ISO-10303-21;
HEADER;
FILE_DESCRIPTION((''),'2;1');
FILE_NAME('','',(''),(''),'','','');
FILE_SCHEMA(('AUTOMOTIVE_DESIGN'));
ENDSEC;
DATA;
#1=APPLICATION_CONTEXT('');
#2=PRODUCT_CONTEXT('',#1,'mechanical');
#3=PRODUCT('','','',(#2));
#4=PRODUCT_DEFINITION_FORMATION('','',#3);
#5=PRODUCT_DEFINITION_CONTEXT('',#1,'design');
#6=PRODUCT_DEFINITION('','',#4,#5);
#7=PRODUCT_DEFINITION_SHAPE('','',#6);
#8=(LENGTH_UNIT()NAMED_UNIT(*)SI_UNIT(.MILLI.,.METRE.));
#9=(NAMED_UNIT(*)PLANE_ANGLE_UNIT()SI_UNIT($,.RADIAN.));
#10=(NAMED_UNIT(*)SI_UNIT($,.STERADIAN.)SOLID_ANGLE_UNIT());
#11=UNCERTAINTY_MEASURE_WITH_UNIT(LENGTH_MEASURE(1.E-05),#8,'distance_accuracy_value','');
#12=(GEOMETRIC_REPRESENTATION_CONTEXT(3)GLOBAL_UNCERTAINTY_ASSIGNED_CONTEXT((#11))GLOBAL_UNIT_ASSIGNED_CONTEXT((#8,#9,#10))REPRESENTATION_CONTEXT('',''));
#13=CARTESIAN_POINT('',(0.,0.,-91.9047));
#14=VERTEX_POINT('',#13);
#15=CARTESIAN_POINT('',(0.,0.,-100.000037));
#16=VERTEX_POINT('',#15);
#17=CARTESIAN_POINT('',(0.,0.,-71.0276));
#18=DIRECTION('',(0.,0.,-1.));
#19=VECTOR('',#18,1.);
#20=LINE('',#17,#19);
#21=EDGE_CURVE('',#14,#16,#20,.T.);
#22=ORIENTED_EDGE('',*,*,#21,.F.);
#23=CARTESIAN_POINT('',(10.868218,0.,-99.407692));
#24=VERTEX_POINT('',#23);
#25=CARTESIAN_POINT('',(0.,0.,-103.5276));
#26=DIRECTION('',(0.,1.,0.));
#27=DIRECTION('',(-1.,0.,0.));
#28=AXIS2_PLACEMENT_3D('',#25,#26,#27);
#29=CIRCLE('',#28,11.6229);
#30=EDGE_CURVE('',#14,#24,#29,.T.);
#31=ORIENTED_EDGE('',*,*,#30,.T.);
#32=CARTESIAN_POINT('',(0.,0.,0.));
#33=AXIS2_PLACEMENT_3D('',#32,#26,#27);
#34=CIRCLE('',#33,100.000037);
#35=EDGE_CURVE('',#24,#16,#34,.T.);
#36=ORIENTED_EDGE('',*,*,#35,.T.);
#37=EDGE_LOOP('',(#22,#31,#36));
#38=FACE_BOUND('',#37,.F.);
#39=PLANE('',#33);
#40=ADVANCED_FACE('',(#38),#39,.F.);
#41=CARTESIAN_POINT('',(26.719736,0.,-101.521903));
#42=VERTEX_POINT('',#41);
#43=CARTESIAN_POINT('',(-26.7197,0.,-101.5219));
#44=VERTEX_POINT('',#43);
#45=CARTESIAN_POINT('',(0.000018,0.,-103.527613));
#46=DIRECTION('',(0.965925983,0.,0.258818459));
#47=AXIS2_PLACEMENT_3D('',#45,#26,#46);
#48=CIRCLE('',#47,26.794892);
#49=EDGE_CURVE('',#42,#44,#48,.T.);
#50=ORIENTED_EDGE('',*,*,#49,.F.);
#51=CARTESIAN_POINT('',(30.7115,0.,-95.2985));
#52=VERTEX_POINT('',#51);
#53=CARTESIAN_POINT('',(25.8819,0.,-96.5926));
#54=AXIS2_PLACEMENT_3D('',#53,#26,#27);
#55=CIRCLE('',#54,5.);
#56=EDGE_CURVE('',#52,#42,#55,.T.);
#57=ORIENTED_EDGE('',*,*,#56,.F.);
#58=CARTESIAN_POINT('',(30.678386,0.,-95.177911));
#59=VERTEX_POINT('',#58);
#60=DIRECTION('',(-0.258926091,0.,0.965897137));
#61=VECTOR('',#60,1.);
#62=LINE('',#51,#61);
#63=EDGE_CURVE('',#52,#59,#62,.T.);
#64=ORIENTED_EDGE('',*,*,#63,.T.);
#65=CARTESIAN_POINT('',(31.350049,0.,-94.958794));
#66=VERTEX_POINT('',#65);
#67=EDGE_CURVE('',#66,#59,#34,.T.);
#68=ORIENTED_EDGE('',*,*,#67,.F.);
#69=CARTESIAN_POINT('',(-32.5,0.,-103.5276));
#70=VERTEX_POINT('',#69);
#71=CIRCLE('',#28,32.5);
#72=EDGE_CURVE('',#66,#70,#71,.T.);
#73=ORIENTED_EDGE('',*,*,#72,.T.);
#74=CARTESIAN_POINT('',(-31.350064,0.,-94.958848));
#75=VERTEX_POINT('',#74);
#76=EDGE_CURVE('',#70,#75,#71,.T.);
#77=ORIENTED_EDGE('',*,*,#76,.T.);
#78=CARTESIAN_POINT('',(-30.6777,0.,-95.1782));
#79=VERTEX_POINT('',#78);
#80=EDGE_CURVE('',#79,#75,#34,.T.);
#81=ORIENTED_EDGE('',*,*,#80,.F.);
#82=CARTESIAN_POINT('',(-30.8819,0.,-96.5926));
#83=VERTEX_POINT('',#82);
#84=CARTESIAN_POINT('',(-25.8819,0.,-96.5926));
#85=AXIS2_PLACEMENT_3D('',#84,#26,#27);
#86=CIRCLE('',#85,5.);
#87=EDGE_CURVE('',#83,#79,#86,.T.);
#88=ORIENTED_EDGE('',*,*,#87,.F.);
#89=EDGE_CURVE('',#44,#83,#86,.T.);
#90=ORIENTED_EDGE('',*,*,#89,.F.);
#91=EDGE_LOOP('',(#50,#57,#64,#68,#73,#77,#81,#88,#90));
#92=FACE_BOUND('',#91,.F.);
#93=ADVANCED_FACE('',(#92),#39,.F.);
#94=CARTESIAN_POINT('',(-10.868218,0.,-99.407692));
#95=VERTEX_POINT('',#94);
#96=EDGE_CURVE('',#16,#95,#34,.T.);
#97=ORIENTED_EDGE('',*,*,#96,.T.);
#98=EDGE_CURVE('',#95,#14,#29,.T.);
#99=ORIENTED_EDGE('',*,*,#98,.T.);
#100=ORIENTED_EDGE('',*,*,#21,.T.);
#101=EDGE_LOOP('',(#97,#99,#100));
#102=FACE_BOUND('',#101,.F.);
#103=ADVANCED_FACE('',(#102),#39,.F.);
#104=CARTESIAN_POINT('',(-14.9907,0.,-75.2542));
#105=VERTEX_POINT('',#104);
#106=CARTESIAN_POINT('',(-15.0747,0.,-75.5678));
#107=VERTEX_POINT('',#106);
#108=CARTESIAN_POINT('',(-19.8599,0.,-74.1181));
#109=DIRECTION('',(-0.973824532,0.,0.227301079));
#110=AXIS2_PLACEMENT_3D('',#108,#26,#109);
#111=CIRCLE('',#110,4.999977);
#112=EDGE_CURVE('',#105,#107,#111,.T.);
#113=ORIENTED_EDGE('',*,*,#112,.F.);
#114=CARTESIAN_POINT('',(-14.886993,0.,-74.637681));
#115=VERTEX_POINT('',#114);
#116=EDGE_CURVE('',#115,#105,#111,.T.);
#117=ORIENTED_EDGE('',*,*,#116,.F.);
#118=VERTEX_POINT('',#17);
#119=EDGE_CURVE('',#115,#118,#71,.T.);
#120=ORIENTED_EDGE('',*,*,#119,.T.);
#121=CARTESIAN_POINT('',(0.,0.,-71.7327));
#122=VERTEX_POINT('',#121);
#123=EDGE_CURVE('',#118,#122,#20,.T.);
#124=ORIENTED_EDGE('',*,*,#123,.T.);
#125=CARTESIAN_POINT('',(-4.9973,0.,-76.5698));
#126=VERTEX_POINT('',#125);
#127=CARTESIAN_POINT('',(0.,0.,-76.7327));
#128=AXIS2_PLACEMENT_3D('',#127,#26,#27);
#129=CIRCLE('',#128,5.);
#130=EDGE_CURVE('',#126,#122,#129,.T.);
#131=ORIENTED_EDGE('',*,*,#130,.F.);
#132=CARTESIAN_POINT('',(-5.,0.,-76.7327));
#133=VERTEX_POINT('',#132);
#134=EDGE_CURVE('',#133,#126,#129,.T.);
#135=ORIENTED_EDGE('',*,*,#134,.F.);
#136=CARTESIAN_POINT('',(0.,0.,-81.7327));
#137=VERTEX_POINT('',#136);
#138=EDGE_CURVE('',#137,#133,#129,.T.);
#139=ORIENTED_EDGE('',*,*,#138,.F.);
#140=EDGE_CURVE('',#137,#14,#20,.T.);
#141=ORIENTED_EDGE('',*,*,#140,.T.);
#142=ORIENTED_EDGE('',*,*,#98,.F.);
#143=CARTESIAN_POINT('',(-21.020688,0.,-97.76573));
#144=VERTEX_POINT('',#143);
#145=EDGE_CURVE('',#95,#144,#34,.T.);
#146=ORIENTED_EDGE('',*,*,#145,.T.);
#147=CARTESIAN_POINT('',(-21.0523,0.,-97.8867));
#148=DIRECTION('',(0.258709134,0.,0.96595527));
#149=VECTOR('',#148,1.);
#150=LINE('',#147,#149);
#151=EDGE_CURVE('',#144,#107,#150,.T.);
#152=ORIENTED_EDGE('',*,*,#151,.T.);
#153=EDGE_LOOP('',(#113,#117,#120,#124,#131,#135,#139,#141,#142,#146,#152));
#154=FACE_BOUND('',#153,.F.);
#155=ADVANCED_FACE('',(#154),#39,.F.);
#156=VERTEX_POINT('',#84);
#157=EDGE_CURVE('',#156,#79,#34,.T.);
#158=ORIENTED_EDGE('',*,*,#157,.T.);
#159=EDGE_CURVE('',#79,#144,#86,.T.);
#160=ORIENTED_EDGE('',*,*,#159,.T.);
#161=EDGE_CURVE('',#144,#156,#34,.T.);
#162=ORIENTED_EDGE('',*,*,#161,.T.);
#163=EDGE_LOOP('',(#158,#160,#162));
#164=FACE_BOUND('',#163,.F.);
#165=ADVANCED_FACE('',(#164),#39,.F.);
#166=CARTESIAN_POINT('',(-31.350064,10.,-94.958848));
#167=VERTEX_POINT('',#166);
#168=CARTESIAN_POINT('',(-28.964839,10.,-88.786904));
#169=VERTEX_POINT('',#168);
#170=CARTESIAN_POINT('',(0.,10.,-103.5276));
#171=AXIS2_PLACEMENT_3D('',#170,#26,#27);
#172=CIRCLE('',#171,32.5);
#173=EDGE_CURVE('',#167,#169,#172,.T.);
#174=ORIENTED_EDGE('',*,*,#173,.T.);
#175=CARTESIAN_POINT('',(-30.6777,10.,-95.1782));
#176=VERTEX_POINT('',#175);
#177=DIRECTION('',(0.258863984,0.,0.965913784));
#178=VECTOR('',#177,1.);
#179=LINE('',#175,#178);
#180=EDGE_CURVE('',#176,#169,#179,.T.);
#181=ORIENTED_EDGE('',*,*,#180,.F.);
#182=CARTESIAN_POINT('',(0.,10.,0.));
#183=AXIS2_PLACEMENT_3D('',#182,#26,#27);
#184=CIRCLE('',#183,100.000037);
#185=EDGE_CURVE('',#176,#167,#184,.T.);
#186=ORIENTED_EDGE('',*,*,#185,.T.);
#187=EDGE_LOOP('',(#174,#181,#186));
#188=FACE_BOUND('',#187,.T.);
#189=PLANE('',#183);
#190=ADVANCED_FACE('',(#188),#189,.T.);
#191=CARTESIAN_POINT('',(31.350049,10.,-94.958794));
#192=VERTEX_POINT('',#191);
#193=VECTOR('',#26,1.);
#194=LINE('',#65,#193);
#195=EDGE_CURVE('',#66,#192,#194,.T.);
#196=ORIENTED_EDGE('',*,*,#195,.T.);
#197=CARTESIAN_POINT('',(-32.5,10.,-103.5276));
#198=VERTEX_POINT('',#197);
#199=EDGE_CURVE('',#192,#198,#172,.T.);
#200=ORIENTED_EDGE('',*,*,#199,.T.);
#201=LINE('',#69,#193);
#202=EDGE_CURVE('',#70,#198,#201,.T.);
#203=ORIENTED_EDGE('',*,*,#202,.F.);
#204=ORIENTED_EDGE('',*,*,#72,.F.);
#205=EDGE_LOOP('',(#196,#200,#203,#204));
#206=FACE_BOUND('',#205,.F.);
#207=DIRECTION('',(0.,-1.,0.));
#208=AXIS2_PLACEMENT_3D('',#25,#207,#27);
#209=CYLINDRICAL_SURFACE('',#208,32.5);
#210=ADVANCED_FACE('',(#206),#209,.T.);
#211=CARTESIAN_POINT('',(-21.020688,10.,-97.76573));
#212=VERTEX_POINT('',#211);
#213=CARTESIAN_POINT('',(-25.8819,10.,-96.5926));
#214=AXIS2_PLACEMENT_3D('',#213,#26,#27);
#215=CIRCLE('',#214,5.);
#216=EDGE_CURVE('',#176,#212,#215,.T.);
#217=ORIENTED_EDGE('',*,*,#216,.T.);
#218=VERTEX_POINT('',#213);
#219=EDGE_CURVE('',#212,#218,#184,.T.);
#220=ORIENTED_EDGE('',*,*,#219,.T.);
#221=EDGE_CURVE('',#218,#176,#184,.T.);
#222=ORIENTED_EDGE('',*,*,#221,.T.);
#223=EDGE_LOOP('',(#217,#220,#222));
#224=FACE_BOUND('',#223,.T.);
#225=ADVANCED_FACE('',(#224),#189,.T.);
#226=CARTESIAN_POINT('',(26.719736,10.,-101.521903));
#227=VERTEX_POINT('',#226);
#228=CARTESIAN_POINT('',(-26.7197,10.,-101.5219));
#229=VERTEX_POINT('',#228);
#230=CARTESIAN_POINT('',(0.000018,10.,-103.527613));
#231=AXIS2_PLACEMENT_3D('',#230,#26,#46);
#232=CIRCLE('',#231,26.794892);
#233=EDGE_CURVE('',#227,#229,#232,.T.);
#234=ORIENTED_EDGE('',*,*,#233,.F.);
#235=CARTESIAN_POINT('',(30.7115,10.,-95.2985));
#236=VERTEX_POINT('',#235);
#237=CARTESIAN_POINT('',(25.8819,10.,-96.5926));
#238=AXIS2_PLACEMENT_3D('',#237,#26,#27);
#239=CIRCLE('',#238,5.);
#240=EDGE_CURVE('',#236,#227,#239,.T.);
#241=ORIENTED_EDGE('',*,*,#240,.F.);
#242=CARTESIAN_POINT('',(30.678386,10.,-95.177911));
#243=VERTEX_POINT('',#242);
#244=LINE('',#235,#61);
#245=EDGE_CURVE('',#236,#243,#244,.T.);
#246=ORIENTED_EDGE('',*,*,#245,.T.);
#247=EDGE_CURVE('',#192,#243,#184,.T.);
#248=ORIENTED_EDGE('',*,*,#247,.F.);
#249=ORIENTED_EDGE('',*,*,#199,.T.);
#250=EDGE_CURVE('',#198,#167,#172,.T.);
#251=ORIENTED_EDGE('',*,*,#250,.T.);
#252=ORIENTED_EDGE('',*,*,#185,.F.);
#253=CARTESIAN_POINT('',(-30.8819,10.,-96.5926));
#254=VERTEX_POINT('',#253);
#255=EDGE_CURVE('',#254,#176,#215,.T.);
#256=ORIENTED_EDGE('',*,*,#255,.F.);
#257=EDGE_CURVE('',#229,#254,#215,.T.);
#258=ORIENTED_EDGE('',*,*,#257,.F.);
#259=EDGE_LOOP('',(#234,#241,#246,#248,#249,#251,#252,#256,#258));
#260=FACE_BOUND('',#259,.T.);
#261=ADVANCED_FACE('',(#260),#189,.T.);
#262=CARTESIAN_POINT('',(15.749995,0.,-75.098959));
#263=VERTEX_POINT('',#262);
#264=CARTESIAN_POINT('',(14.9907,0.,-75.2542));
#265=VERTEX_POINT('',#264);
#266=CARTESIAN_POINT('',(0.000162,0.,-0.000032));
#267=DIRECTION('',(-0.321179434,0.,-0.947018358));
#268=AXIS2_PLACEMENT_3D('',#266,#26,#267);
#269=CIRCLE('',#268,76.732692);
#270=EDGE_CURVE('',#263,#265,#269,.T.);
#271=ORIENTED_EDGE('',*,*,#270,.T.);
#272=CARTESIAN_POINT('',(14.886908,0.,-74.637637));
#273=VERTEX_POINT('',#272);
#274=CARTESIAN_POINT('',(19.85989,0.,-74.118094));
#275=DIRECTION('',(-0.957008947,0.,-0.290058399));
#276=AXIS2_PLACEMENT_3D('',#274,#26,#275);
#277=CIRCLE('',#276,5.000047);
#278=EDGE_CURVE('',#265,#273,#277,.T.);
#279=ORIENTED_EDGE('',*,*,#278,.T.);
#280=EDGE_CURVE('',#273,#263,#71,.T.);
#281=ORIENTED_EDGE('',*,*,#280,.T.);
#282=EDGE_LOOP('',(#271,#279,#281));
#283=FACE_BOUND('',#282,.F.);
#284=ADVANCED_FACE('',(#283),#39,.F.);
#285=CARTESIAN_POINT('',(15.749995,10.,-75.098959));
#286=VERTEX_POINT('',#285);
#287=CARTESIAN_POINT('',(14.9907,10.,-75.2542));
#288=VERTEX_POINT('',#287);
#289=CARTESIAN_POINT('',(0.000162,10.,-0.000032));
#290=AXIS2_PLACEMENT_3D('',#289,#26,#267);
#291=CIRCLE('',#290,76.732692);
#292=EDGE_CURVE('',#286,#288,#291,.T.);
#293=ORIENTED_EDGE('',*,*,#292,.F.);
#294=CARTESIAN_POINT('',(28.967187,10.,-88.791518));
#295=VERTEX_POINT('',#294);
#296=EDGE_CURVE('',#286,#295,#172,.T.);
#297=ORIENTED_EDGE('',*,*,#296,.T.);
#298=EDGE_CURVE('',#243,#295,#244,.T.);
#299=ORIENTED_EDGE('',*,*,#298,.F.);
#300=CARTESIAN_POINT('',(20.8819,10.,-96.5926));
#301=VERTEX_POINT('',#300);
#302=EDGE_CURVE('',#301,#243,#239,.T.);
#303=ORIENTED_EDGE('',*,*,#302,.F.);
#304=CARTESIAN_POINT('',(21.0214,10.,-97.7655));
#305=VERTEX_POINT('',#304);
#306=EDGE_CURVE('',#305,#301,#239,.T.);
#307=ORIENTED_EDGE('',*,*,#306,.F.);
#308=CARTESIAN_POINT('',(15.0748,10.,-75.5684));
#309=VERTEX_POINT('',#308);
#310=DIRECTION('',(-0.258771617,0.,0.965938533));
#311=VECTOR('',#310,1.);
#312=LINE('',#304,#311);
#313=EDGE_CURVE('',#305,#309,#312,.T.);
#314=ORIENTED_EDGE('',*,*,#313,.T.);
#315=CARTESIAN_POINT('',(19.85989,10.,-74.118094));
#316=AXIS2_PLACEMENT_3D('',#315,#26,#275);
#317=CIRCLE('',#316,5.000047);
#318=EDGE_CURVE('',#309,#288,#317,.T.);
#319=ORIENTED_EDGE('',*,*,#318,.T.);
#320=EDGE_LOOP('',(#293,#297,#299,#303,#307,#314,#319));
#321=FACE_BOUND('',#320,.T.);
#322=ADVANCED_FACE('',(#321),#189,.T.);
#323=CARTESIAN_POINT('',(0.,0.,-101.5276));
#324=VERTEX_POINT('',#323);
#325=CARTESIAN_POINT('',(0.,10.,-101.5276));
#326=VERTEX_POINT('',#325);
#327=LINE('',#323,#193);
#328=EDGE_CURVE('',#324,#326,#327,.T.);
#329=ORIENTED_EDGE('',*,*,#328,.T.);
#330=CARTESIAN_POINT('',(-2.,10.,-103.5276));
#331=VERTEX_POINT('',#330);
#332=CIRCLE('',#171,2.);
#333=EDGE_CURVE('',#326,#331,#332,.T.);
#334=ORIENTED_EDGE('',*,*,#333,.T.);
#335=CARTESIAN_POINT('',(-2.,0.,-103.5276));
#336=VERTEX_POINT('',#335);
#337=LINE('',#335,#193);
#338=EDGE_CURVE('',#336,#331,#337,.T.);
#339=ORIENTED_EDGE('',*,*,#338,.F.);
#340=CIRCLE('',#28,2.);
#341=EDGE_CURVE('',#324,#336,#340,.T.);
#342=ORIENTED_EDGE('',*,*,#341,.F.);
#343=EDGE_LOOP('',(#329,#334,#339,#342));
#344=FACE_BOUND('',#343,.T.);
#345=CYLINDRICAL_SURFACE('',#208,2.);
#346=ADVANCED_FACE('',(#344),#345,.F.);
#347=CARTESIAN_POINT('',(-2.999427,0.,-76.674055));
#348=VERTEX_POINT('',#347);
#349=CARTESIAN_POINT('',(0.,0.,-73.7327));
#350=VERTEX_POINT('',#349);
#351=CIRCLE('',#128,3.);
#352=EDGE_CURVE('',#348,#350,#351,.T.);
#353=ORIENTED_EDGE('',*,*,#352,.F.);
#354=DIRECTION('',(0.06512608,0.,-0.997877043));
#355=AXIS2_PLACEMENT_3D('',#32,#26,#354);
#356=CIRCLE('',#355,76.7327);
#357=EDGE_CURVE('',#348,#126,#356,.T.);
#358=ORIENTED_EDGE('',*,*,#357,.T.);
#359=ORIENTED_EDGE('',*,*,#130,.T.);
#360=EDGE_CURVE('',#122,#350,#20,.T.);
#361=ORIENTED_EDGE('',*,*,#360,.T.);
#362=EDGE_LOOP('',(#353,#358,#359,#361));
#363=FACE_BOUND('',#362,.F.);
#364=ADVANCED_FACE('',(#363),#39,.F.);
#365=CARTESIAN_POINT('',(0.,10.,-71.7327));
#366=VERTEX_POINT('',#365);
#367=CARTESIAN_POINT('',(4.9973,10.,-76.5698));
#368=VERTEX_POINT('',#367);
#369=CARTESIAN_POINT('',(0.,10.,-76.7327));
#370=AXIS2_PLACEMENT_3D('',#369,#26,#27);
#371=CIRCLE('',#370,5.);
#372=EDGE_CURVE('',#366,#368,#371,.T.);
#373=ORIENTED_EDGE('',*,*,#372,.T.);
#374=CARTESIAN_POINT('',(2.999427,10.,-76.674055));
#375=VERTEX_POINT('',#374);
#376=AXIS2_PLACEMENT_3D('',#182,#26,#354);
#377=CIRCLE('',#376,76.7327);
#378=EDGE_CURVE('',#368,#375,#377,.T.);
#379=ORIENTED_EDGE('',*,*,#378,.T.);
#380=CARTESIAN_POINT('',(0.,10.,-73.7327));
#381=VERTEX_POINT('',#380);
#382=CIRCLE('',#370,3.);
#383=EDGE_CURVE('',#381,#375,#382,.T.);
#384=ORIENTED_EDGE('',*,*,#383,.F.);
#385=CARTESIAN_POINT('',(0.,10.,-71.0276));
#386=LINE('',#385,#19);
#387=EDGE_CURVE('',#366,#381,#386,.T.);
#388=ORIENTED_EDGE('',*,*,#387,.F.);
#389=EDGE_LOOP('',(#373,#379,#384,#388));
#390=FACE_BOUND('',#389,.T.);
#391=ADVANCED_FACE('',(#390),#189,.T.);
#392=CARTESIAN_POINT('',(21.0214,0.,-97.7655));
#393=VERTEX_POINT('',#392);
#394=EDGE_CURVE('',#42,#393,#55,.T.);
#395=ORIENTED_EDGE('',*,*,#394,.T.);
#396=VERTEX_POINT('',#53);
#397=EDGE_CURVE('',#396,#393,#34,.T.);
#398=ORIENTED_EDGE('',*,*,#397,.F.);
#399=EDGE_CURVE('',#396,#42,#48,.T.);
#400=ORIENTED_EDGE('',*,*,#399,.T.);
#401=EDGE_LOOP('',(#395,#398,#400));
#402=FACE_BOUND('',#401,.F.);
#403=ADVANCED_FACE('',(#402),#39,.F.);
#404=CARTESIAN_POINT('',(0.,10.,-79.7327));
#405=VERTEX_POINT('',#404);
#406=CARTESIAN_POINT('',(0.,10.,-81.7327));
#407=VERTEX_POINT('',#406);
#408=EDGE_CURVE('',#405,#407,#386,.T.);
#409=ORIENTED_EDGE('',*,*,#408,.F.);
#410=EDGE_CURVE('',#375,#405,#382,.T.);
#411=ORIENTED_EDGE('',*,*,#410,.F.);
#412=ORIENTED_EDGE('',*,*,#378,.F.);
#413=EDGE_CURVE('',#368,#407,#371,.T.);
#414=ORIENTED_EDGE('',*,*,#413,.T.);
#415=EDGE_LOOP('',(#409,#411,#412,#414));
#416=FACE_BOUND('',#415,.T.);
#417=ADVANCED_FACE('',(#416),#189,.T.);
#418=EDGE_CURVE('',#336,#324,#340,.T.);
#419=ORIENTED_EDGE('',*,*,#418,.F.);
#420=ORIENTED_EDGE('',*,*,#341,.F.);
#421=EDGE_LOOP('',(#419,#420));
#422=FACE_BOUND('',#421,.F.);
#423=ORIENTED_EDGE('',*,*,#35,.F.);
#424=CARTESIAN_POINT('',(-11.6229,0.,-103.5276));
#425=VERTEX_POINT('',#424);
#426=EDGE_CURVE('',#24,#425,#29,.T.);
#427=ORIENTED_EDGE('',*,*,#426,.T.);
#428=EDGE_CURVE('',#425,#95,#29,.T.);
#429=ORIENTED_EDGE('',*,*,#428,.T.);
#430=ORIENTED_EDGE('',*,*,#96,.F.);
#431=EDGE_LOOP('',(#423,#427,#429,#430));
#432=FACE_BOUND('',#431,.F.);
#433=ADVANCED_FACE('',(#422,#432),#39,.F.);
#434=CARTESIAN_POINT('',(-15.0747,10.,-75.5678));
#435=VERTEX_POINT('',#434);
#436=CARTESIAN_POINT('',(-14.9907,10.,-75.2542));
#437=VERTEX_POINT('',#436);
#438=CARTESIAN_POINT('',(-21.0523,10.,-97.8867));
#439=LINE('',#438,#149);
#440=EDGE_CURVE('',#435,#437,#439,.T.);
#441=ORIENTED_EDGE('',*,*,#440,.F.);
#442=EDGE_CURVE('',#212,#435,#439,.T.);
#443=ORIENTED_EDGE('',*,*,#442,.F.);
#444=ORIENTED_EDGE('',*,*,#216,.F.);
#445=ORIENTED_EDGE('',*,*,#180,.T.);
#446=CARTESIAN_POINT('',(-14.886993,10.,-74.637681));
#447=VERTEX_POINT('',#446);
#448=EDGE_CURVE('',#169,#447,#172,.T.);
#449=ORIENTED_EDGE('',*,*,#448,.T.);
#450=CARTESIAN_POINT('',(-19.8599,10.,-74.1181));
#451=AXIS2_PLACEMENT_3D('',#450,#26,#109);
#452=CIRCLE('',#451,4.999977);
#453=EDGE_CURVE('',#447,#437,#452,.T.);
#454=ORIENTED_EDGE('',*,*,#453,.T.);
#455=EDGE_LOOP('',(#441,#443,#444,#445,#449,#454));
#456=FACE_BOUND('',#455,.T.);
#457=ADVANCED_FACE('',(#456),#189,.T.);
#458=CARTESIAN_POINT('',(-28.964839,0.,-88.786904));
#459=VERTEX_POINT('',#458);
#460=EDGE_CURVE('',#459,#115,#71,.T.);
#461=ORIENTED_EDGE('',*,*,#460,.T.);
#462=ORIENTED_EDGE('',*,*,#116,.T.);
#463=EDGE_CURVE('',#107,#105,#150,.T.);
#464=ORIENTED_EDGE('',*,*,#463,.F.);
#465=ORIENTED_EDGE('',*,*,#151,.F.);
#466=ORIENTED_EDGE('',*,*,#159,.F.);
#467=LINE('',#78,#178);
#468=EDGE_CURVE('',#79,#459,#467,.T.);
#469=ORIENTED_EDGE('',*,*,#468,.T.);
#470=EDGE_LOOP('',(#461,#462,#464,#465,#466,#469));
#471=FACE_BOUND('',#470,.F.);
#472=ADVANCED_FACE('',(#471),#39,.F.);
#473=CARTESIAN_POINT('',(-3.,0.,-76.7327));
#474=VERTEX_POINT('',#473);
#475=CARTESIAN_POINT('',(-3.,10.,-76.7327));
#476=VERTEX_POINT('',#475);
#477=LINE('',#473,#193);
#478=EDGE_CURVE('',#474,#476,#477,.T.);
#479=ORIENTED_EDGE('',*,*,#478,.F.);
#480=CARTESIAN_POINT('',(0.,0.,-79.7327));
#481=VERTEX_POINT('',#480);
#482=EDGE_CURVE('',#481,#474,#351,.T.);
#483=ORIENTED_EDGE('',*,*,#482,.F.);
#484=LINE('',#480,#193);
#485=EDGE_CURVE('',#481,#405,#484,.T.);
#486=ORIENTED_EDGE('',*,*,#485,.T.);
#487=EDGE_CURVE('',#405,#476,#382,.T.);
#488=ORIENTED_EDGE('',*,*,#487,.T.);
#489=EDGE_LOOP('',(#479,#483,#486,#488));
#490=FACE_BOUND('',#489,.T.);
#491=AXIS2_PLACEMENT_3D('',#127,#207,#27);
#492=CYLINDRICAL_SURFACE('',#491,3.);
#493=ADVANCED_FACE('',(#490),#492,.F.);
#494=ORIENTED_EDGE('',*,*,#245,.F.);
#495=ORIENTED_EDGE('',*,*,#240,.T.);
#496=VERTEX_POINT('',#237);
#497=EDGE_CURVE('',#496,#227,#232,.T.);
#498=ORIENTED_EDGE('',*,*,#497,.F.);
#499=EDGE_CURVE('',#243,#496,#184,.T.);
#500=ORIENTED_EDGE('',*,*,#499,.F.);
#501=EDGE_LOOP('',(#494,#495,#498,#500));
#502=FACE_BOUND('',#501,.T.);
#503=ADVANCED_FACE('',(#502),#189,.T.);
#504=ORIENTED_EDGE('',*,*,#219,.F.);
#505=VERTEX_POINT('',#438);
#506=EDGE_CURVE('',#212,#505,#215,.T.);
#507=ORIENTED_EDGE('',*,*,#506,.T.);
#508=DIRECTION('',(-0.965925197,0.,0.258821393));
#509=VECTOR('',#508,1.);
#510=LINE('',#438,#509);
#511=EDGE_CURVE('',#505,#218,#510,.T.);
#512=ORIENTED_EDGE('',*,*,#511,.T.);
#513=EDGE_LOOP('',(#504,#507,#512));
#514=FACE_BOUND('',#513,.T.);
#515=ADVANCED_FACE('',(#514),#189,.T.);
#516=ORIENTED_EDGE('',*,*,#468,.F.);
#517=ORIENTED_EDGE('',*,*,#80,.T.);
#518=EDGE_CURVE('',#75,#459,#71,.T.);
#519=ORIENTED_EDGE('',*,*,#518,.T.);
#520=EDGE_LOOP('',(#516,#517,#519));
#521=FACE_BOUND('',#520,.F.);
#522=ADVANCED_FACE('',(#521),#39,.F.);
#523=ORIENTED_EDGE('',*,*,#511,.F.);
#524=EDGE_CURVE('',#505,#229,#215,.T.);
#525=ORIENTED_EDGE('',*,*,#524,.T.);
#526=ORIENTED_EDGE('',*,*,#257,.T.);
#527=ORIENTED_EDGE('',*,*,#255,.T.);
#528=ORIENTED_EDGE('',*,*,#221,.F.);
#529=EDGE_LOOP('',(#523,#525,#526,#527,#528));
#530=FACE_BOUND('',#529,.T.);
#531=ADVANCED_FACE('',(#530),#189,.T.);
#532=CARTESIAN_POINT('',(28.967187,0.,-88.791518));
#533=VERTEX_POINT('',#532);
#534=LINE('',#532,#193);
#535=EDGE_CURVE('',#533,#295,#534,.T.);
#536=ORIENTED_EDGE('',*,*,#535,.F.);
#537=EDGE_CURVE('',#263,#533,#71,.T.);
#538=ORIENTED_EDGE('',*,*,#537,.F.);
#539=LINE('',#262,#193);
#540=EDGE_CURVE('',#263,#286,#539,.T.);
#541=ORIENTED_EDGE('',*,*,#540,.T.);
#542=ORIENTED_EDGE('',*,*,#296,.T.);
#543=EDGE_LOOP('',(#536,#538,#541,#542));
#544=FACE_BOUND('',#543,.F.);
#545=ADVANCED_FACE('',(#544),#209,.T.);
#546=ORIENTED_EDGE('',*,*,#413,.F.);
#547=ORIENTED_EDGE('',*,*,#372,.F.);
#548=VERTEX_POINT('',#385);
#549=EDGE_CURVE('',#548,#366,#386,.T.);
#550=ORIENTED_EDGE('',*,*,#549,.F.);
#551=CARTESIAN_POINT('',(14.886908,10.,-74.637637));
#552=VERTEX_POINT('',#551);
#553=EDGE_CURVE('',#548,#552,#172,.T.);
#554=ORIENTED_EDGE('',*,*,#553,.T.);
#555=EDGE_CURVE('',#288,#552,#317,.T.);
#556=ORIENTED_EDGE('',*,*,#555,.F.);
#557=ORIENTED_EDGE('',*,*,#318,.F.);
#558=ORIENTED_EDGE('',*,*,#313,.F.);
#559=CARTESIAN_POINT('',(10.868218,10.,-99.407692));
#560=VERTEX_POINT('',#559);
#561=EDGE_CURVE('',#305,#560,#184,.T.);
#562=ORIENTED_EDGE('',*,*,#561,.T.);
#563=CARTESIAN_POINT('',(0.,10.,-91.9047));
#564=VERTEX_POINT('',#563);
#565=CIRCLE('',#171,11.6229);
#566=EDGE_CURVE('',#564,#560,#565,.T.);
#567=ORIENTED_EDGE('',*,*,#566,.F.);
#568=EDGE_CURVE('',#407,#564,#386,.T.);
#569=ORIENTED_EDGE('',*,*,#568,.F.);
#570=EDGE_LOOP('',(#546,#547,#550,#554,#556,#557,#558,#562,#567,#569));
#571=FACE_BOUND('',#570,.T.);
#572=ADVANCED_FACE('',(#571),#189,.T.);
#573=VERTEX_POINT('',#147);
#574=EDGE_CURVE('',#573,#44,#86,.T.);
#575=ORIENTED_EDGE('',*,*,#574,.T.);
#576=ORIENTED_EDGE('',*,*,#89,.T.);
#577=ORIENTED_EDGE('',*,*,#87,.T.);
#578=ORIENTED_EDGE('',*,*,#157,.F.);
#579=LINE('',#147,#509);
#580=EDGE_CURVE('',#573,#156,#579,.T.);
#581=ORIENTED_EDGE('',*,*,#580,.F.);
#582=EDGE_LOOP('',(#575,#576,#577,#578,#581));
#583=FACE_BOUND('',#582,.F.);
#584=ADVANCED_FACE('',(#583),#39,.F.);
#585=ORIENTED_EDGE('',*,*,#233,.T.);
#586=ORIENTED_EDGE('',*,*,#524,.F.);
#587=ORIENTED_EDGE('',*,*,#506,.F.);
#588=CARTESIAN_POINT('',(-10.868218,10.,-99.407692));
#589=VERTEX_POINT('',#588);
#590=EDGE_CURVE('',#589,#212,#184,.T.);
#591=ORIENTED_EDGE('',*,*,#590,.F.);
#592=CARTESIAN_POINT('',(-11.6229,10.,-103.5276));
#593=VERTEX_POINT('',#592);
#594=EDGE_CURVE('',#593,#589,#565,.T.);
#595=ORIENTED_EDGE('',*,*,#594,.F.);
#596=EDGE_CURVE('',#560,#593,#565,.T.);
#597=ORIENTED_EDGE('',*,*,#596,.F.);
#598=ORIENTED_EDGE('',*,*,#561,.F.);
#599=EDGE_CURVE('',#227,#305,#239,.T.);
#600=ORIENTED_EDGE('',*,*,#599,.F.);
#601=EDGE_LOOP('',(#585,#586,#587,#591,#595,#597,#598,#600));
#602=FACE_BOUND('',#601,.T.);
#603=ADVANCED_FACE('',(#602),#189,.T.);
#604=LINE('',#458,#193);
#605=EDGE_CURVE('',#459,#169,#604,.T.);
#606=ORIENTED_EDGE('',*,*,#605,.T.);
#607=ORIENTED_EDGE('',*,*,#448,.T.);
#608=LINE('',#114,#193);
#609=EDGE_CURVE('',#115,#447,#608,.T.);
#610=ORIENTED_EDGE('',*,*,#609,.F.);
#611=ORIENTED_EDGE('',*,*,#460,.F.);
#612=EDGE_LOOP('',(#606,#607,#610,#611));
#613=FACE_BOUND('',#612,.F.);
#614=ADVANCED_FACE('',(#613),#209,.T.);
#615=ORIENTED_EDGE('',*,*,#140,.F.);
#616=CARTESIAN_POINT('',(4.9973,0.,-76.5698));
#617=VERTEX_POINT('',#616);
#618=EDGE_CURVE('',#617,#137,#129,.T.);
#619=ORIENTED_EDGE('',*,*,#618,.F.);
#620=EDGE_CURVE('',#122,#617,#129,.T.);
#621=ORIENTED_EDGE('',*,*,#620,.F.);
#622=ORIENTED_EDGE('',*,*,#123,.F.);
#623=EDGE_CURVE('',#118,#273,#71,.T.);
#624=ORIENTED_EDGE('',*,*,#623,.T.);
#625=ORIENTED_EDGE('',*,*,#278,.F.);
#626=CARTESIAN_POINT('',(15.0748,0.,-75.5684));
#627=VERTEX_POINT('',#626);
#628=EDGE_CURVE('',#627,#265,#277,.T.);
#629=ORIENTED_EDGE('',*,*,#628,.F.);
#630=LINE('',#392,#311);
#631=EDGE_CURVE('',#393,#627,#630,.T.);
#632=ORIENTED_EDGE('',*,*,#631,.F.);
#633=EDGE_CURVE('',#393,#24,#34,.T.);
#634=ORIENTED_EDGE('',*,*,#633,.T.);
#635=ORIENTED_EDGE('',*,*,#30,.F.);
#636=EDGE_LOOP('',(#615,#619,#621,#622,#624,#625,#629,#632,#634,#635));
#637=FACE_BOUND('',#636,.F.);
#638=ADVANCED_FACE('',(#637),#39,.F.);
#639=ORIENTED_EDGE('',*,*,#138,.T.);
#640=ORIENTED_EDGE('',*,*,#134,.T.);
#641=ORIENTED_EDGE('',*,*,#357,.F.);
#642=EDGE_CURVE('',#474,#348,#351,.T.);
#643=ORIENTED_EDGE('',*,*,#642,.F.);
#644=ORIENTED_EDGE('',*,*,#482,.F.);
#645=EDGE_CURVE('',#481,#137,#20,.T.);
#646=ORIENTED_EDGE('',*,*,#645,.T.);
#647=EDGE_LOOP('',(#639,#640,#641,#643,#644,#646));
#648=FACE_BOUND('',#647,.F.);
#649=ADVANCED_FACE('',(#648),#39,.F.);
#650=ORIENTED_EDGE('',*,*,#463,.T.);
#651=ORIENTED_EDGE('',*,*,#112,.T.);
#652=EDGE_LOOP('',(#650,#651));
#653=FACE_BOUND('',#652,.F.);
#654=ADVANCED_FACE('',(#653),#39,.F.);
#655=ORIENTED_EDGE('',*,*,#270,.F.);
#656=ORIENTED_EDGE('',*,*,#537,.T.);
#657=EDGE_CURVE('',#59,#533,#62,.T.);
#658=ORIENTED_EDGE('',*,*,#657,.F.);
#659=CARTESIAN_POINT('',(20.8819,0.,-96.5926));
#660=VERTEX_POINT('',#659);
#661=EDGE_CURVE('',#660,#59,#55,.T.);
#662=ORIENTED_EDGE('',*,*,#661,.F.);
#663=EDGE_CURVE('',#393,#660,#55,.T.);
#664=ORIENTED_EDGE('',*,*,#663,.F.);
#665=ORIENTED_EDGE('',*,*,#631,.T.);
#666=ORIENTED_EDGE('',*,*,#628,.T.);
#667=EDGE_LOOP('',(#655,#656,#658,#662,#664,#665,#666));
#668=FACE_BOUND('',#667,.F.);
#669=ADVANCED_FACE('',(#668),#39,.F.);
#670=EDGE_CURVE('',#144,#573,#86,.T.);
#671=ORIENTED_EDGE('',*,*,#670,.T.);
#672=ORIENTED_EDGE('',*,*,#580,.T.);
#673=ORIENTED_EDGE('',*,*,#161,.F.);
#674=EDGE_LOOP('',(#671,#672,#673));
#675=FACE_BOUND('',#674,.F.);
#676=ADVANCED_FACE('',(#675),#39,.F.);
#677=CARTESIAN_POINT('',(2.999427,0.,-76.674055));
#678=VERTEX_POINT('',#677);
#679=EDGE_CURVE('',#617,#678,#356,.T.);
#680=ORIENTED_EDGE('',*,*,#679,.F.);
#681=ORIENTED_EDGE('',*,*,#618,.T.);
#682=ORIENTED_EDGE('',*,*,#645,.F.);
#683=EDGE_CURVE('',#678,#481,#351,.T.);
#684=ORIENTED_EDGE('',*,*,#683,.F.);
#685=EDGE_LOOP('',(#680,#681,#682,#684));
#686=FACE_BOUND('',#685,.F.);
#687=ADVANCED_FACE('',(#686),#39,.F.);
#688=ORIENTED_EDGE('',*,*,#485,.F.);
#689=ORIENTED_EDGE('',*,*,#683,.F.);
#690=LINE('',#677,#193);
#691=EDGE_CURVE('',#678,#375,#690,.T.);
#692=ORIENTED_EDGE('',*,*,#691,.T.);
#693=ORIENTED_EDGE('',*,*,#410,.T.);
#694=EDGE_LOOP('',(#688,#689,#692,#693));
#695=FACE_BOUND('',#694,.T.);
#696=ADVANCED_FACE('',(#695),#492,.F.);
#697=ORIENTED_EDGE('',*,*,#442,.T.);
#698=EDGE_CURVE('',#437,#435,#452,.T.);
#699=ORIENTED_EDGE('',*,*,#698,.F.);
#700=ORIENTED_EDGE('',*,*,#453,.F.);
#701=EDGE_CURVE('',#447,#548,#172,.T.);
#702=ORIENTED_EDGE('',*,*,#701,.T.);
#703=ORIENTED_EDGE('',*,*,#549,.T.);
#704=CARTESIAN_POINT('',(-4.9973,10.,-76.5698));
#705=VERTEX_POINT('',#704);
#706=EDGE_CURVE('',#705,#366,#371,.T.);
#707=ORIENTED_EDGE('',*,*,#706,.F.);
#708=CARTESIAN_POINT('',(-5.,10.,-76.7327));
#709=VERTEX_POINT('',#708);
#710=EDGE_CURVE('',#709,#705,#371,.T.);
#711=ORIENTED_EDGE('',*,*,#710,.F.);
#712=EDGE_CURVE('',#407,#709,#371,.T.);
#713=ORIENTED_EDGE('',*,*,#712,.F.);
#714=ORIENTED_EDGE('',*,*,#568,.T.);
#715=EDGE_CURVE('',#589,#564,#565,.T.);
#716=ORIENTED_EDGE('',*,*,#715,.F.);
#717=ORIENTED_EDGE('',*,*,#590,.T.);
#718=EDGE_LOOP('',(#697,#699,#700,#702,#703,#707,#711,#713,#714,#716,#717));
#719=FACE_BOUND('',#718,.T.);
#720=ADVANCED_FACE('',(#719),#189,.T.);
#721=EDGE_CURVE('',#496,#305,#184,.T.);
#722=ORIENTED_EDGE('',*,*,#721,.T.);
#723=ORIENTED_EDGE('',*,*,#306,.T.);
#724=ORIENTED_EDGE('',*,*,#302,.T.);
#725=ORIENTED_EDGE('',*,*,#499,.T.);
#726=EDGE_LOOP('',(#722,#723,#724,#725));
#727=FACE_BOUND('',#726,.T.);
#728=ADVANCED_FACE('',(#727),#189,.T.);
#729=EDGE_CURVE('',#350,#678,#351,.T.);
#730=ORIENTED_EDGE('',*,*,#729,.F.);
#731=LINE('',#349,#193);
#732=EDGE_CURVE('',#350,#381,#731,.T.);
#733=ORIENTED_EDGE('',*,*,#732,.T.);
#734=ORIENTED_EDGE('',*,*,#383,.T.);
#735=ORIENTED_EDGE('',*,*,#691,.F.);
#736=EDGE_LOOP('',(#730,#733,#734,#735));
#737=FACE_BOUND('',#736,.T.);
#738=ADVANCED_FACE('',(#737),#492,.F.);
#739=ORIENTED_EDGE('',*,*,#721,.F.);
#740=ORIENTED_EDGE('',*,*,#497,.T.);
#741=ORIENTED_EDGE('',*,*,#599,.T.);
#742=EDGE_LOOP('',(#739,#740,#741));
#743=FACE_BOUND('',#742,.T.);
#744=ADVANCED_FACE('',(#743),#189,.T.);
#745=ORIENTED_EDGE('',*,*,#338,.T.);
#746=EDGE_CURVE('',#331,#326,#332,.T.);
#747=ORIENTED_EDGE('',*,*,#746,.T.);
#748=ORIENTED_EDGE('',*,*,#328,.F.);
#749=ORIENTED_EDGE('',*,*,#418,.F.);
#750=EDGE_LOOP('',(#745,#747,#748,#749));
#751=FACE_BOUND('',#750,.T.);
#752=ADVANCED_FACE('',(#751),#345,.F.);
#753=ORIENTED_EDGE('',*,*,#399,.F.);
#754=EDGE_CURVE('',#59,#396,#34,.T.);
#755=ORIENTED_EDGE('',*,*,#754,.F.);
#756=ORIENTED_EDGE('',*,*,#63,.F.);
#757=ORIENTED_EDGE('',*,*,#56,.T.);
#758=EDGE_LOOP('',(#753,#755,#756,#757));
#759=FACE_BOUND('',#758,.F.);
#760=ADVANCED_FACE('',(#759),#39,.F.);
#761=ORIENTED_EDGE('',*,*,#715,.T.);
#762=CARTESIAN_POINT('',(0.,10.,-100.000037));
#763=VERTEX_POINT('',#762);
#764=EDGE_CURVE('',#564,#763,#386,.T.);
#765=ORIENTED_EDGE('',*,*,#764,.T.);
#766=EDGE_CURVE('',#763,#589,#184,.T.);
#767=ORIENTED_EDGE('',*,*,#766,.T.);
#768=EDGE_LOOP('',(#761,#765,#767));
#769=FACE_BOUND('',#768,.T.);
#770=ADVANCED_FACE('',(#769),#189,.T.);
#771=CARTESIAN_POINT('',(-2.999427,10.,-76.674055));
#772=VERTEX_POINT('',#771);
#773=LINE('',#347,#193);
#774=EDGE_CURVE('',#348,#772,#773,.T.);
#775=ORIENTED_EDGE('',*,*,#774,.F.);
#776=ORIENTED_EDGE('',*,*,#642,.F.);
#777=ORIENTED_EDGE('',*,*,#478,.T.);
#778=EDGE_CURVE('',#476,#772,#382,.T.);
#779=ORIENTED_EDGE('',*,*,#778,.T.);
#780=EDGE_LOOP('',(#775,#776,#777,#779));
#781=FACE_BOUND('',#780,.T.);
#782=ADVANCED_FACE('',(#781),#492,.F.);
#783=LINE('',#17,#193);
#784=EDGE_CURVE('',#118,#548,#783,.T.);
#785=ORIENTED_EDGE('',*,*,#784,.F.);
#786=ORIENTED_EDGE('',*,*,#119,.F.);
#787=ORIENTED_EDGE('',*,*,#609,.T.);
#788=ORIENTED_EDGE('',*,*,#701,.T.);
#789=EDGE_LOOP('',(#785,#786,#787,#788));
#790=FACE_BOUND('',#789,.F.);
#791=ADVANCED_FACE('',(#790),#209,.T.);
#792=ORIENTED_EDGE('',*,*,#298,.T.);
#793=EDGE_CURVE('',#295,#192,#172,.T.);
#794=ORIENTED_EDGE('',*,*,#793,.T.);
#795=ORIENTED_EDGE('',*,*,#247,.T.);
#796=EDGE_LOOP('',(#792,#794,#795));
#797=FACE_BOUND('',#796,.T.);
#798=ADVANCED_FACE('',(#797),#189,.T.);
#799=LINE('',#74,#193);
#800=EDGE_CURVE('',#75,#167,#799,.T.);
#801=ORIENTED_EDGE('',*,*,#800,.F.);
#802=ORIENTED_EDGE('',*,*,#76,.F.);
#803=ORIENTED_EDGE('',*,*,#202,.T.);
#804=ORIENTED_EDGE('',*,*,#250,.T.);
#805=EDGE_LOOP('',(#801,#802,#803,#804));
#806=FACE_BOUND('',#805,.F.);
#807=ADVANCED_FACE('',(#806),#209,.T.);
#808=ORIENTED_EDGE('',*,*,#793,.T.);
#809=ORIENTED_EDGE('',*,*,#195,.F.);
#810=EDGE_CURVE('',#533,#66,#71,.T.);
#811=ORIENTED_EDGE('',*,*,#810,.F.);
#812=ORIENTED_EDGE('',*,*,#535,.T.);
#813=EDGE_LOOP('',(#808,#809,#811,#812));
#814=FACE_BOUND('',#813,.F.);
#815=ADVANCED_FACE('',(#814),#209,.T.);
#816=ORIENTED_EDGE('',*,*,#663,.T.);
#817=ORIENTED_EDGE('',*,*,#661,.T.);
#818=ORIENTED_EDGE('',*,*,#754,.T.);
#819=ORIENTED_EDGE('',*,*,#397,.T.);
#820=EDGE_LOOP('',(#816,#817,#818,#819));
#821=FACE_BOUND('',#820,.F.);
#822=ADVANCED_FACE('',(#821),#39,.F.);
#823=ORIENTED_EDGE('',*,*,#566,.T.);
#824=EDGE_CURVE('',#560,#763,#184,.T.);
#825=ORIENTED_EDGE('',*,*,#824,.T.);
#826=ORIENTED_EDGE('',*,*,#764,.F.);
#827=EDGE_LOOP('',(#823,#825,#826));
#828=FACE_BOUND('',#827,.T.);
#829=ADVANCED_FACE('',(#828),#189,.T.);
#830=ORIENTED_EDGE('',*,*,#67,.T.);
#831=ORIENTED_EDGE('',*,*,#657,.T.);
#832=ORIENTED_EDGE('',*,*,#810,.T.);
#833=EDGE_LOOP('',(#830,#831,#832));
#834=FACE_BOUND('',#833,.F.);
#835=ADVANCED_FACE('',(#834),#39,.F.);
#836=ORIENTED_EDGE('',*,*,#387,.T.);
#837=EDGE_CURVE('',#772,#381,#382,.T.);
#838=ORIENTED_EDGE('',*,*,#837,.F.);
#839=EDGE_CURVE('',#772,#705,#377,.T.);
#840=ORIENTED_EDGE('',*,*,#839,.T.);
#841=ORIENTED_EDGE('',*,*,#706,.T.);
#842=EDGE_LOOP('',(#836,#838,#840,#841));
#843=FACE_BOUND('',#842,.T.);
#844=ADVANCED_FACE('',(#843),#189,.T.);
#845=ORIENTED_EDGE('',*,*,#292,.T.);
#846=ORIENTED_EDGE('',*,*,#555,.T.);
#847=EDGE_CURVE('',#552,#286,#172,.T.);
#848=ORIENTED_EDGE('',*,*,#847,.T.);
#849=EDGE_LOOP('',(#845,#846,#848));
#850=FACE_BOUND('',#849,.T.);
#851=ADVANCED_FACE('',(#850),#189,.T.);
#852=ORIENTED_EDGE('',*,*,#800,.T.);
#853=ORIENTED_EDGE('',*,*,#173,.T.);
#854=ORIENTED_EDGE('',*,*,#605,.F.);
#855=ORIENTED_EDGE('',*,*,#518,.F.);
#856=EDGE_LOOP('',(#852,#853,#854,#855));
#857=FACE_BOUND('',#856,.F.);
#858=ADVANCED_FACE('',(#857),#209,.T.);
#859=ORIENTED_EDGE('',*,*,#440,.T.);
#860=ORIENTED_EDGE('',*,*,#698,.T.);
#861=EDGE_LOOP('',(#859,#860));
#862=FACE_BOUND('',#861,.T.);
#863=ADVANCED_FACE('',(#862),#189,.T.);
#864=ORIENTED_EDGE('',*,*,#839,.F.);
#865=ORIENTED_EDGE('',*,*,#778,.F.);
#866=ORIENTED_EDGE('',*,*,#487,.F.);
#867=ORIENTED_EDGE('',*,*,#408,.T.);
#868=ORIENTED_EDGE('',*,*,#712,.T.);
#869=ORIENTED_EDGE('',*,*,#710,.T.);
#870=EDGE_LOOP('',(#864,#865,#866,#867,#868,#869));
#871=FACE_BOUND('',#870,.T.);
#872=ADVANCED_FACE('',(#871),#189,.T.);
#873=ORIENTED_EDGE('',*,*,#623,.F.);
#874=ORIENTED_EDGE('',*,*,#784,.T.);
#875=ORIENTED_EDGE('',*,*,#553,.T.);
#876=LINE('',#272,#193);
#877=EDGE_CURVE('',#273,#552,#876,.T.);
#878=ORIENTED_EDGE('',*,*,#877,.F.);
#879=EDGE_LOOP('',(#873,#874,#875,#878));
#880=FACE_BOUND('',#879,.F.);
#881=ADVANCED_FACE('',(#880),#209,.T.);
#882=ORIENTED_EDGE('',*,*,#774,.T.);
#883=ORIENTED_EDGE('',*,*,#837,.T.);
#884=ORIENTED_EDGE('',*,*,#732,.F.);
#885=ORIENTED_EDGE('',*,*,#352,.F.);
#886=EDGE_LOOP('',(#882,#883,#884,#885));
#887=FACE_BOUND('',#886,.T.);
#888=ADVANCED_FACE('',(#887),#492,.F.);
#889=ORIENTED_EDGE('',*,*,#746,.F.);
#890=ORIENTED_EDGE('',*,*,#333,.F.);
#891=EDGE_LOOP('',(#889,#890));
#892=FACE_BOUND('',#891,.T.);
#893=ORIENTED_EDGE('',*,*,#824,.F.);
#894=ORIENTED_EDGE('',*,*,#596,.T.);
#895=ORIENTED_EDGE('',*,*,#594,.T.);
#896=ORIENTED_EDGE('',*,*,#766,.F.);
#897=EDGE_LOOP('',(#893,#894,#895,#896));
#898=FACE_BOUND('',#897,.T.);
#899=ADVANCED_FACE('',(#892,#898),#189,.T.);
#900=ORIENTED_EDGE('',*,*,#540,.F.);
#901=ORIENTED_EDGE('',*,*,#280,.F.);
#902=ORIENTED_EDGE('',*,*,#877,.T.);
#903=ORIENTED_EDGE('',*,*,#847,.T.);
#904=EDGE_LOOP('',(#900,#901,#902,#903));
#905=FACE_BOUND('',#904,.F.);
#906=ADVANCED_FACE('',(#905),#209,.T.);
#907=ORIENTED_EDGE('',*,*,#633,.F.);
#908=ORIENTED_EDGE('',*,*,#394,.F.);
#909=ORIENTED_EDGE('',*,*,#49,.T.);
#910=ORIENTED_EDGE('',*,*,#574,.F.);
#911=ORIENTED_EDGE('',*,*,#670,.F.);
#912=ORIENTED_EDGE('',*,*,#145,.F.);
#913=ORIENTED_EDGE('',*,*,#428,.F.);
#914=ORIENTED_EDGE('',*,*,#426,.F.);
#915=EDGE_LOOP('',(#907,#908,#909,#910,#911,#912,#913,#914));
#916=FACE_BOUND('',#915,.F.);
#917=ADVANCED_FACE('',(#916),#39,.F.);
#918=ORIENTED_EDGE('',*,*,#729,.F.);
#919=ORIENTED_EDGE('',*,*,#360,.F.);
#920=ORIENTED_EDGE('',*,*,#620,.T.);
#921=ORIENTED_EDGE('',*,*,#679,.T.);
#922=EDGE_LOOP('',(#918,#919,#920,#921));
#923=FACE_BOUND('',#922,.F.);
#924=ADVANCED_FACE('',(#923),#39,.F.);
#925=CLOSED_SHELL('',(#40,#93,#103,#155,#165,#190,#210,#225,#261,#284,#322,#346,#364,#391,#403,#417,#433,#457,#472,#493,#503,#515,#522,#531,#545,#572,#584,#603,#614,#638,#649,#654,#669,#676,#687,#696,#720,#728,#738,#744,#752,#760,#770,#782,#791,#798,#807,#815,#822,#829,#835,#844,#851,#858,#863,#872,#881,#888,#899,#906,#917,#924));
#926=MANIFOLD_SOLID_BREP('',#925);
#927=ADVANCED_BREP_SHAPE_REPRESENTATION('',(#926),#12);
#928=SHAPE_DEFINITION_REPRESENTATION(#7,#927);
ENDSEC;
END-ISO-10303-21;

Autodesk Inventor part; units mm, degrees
ref_plane "YZ Plane" through (0, 0, 0) normal (1, 0, 0) x (0, 1, 0)
ref_plane "XZ Plane" through (0, 0, 0) normal (0, 1, 0) x (-1, 0, 0)
ref_plane "XY Plane" through (0, 0, 0) normal (0, 0, 1) x (1, 0, 0)
sketch "Sketch1" plane through (0, 0, 0) normal (0, 1, 0) x (-1, 0, 0)
  line L0 (0, 0) -> (18.5658, -69.2885)
  circle A0 centre (25.8819, -96.5926) radius 5
  arc A1 (24.729, -72.9816) -> (15.0747, -75.5678) centre (19.8599, -74.1181) ccw
  line L1 (30.6777, -95.1782) -> (24.6448, -72.6673)
  line L2 (21.0523, -97.8867) -> (14.9907, -75.2542)
  circle A2 centre (0, -103.5276) radius 11.6229
  line L3 (21.0523, -97.8867) -> (25.8819, -96.5926)
  arc A3 (-25.8819, -96.5926) -> (26.7197, -101.5219) centre (0, -103.5276) ccw
  circle A4 centre (0, -103.5276) radius 39.9
  arc A5 (57.9067, -50.8394) -> (50.8389, -57.9063) centre (54.2582, -54.2582) ccw
  line L4 (67.1751, -74.2462) -> (50.6094, -57.6767)
  line L5 (74.1567, -67.0879) -> (57.6767, -50.6094)
  circle A6 centre (70.7107, -70.7107) radius 5
  circle A7 centre (51.7638, -89.6575) radius 11.6229
  arc A8 (75.5684, -15.0748) -> (72.9809, -24.7289) centre (74.1181, -19.8599) ccw
  line L6 (95.2985, -30.7115) -> (72.6673, -24.6448)
  line L7 (97.7655, -21.0214) -> (75.2542, -14.9907)
  circle A9 centre (96.5926, -25.8819) radius 5
  circle A10 centre (89.6575, -51.7638) radius 11.6229
  arc A11 (72.9816, 24.729) -> (75.5678, 15.0747) centre (74.1181, 19.8599) ccw
  line L8 (97.8867, 21.0523) -> (75.2542, 14.9907)
  line L9 (95.1782, 30.6777) -> (72.6673, 24.6448)
  circle A12 centre (96.5926, 25.8819) radius 5
  circle A13 centre (103.5276, 0) radius 11.6229
  arc A14 (50.8394, 57.9067) -> (57.9063, 50.8389) centre (54.2582, 54.2582) ccw
  line L10 (74.2462, 67.1751) -> (57.6767, 50.6094)
  line L11 (67.0879, 74.1567) -> (50.6094, 57.6767)
  circle A15 centre (70.7107, 70.7107) radius 5
  circle A16 centre (89.6575, 51.7638) radius 11.6229
  arc A17 (15.0748, 75.5684) -> (24.7289, 72.9809) centre (19.8599, 74.1181) ccw
  line L12 (30.7115, 95.2985) -> (24.6448, 72.6673)
  line L13 (21.0214, 97.7655) -> (14.9907, 75.2542)
  circle A18 centre (25.8819, 96.5926) radius 5
  circle A19 centre (51.7638, 89.6575) radius 11.6229
  arc A20 (-24.729, 72.9816) -> (-15.0747, 75.5678) centre (-19.8599, 74.1181) ccw
  line L14 (-21.0523, 97.8867) -> (-14.9907, 75.2542)
  line L15 (-30.6777, 95.1782) -> (-24.6448, 72.6673)
  circle A21 centre (-25.8819, 96.5926) radius 5
  circle A22 centre (0, 103.5276) radius 11.6229
  arc A23 (-57.9067, 50.8394) -> (-50.8389, 57.9063) centre (-54.2582, 54.2582) ccw
  line L16 (-67.1751, 74.2462) -> (-50.6094, 57.6767)
  line L17 (-74.1567, 67.0879) -> (-57.6767, 50.6094)
  circle A24 centre (-70.7107, 70.7107) radius 5
  circle A25 centre (-51.7638, 89.6575) radius 11.6229
  arc A26 (-75.5684, 15.0748) -> (-72.9809, 24.7289) centre (-74.1181, 19.8599) ccw
  line L18 (-95.2985, 30.7115) -> (-72.6673, 24.6448)
  line L19 (-97.7655, 21.0214) -> (-75.2542, 14.9907)
  circle A27 centre (-96.5926, 25.8819) radius 5
  circle A28 centre (-89.6575, 51.7638) radius 11.6229
  arc A29 (-72.9816, -24.729) -> (-75.5678, -15.0747) centre (-74.1181, -19.8599) ccw
  line L20 (-97.8867, -21.0523) -> (-75.2542, -14.9907)
  line L21 (-95.1782, -30.6777) -> (-72.6673, -24.6448)
  circle A30 centre (-96.5926, -25.8819) radius 5
  circle A31 centre (-103.5276, 0) radius 11.6229
  arc A32 (-50.8394, -57.9067) -> (-57.9063, -50.8389) centre (-54.2582, -54.2582) ccw
  line L22 (-74.2462, -67.1751) -> (-57.6767, -50.6094)
  line L23 (-67.0879, -74.1567) -> (-50.6094, -57.6767)
  circle A33 centre (-70.7107, -70.7107) radius 5
  circle A34 centre (-89.6575, -51.7638) radius 11.6229
  arc A35 (-15.0748, -75.5684) -> (-24.7289, -72.9809) centre (-19.8599, -74.1181) ccw
  line L24 (-30.7115, -95.2985) -> (-24.6448, -72.6673)
  line L25 (-21.0214, -97.7655) -> (-14.9907, -75.2542)
  circle A36 centre (-25.8819, -96.5926) radius 5
  circle A37 centre (-51.7638, -89.6575) radius 11.6229
  circle A38 centre (0, 0) radius 5
  circle A39 centre (0, -103.5276) radius 2
  circle A40 centre (0, -76.7327) radius 5
  circle A41 centre (0, -103.5276) radius 32.5
  circle A42 centre (0, -76.7327) radius 3
  circle A43 centre (0, -103.5276) radius 2
  arc A44 (24.6448, -72.6673) -> (-14.9907, -75.2542) centre (0, 0) ccw
  arc A45 (-4.9973, -76.5698) -> (4.9973, -76.5698) centre (0, 0) ccw
  line L26 (0, 0) -> (0, -63.6276)
  line L27 (0, -71.0276) -> (0, -103.5276)
  arc A46 (21.0199, -97.7659) -> (21.0214, -97.7655) centre (0, 0) ccw
  arc A47 (30.6777, -95.1782) -> (-21.0214, -97.7655) centre (0, 0) ccw
  point P0 (0, 0)
  point P1 (0, 0)
  point P2 (50.7227, -50.7227)
  point P3 (73.9009, -74.5607)
  point P4 (69.2885, -18.5658)
  point P5 (101.2804, -27.621)
  point P6 (69.2885, 18.5658)
  point P7 (101.5219, 26.7197)
  point P8 (50.7227, 50.7227)
  point P9 (74.5607, 73.9009)
  point P10 (18.5658, 69.2885)
  point P11 (27.621, 101.2804)
  point P12 (-18.5658, 69.2885)
  point P13 (-26.7197, 101.5219)
  point P14 (-50.7227, 50.7227)
  point P15 (-73.9009, 74.5607)
  point P16 (-69.2885, 18.5658)
  point P17 (-101.2804, 27.621)
  point P18 (-69.2885, -18.5658)
  point P19 (-101.5219, -26.7197)
  point P20 (-50.7227, -50.7227)
  point P21 (-74.5607, -73.9009)
  point P22 (-18.5658, -69.2885)
  point P23 (-27.621, -101.2804)
  point P24 (40.2917, -91.5236)
  point P25 (59.1159, -80.6555)
  point P26 (67.0867, -74.1578)
  point P27 (74.1567, -67.0879)
  point P28 (80.6555, -59.1159)
  point P29 (91.5236, -40.2917)
  point P30 (95.1777, -30.6791)
  point P31 (97.7655, -21.0214)
  point P32 (99.4077, -10.8682)
  point P33 (99.4077, 10.8682)
  point P34 (97.7659, 21.0199)
  point P35 (95.1782, 30.6777)
  point P36 (91.5236, 40.2917)
  point P37 (80.6555, 59.1159)
  point P38 (74.1578, 67.0867)
  point P39 (67.0879, 74.1567)
  point P40 (59.1159, 80.6555)
  point P41 (40.2917, 91.5236)
  point P42 (30.6791, 95.1777)
  point P43 (21.0214, 97.7655)
  point P44 (10.8682, 99.4077)
  point P45 (-10.8682, 99.4077)
  point P46 (-21.0199, 97.7659)
  point P47 (-30.6777, 95.1782)
  point P48 (-40.2917, 91.5236)
  point P49 (-59.1159, 80.6555)
  point P50 (-67.0867, 74.1578)
  point P51 (-74.1567, 67.0879)
  point P52 (-80.6555, 59.1159)
  point P53 (-91.5236, 40.2917)
  point P54 (-95.1777, 30.6791)
  point P55 (-97.7655, 21.0214)
  point P56 (-99.4077, 10.8682)
  point P57 (-99.4077, -10.8682)
  point P58 (-97.7659, -21.0199)
  point P59 (-95.1782, -30.6777)
  point P60 (-91.5236, -40.2917)
  point P61 (-80.6555, -59.1159)
  point P62 (-74.1578, -67.0867)
  point P63 (-67.0879, -74.1567)
  point P64 (-59.1159, -80.6555)
  point P65 (-40.2917, -91.5236)
  point P66 (-30.6791, -95.1777)
  point P67 (-21.0214, -97.7655)
  point P68 (-10.8682, -99.4077)
  point P69 (10.8682, -99.4077)
  point P70 (-10.8682, -99.4077)
  point P71 (10.8682, -99.4077)
  dimension "d6" = 79.8
  dimension "d11" = 65
  dimension "d4" = 10
  dimension "d5" = 10
  dimension "d7" = 360
  dimension "d8" = 10
  dimension "d9" = 4
  dimension "d10" = 10
  dimension "d12" = 6
extrude "Extrusion1" add sketch "Sketch1" along normal blind 10 contours A41 L1 A0 L2 A1 | A1 L2 A46 A2 L27 A40 A41 | A41 L27 A40 A2 A46 L25 A35 | A35 A44 A41 | L2 A1 | A41 A46 L1 | A35 L25 A36 L24 A41 A44 | A46 A41 L24 A36 A3 A0 | A46 A0 | A0 L3 A46 | L27 A42 A45 A40 | A40 A45 A42 L27 | L24 A46 A41 | A46 L3 A0 | A0 A3 A36 A46 A2 | A40 L27 A42 A45 | A45 A42 L27 A40 | A46 A36 | A36 A3 A46 | A46 A3 A36 L24 | A46 L27 A2 | A2 A46 | A2 L27 A46
properties part number "SC-1-02-Circle Arc Cover"
